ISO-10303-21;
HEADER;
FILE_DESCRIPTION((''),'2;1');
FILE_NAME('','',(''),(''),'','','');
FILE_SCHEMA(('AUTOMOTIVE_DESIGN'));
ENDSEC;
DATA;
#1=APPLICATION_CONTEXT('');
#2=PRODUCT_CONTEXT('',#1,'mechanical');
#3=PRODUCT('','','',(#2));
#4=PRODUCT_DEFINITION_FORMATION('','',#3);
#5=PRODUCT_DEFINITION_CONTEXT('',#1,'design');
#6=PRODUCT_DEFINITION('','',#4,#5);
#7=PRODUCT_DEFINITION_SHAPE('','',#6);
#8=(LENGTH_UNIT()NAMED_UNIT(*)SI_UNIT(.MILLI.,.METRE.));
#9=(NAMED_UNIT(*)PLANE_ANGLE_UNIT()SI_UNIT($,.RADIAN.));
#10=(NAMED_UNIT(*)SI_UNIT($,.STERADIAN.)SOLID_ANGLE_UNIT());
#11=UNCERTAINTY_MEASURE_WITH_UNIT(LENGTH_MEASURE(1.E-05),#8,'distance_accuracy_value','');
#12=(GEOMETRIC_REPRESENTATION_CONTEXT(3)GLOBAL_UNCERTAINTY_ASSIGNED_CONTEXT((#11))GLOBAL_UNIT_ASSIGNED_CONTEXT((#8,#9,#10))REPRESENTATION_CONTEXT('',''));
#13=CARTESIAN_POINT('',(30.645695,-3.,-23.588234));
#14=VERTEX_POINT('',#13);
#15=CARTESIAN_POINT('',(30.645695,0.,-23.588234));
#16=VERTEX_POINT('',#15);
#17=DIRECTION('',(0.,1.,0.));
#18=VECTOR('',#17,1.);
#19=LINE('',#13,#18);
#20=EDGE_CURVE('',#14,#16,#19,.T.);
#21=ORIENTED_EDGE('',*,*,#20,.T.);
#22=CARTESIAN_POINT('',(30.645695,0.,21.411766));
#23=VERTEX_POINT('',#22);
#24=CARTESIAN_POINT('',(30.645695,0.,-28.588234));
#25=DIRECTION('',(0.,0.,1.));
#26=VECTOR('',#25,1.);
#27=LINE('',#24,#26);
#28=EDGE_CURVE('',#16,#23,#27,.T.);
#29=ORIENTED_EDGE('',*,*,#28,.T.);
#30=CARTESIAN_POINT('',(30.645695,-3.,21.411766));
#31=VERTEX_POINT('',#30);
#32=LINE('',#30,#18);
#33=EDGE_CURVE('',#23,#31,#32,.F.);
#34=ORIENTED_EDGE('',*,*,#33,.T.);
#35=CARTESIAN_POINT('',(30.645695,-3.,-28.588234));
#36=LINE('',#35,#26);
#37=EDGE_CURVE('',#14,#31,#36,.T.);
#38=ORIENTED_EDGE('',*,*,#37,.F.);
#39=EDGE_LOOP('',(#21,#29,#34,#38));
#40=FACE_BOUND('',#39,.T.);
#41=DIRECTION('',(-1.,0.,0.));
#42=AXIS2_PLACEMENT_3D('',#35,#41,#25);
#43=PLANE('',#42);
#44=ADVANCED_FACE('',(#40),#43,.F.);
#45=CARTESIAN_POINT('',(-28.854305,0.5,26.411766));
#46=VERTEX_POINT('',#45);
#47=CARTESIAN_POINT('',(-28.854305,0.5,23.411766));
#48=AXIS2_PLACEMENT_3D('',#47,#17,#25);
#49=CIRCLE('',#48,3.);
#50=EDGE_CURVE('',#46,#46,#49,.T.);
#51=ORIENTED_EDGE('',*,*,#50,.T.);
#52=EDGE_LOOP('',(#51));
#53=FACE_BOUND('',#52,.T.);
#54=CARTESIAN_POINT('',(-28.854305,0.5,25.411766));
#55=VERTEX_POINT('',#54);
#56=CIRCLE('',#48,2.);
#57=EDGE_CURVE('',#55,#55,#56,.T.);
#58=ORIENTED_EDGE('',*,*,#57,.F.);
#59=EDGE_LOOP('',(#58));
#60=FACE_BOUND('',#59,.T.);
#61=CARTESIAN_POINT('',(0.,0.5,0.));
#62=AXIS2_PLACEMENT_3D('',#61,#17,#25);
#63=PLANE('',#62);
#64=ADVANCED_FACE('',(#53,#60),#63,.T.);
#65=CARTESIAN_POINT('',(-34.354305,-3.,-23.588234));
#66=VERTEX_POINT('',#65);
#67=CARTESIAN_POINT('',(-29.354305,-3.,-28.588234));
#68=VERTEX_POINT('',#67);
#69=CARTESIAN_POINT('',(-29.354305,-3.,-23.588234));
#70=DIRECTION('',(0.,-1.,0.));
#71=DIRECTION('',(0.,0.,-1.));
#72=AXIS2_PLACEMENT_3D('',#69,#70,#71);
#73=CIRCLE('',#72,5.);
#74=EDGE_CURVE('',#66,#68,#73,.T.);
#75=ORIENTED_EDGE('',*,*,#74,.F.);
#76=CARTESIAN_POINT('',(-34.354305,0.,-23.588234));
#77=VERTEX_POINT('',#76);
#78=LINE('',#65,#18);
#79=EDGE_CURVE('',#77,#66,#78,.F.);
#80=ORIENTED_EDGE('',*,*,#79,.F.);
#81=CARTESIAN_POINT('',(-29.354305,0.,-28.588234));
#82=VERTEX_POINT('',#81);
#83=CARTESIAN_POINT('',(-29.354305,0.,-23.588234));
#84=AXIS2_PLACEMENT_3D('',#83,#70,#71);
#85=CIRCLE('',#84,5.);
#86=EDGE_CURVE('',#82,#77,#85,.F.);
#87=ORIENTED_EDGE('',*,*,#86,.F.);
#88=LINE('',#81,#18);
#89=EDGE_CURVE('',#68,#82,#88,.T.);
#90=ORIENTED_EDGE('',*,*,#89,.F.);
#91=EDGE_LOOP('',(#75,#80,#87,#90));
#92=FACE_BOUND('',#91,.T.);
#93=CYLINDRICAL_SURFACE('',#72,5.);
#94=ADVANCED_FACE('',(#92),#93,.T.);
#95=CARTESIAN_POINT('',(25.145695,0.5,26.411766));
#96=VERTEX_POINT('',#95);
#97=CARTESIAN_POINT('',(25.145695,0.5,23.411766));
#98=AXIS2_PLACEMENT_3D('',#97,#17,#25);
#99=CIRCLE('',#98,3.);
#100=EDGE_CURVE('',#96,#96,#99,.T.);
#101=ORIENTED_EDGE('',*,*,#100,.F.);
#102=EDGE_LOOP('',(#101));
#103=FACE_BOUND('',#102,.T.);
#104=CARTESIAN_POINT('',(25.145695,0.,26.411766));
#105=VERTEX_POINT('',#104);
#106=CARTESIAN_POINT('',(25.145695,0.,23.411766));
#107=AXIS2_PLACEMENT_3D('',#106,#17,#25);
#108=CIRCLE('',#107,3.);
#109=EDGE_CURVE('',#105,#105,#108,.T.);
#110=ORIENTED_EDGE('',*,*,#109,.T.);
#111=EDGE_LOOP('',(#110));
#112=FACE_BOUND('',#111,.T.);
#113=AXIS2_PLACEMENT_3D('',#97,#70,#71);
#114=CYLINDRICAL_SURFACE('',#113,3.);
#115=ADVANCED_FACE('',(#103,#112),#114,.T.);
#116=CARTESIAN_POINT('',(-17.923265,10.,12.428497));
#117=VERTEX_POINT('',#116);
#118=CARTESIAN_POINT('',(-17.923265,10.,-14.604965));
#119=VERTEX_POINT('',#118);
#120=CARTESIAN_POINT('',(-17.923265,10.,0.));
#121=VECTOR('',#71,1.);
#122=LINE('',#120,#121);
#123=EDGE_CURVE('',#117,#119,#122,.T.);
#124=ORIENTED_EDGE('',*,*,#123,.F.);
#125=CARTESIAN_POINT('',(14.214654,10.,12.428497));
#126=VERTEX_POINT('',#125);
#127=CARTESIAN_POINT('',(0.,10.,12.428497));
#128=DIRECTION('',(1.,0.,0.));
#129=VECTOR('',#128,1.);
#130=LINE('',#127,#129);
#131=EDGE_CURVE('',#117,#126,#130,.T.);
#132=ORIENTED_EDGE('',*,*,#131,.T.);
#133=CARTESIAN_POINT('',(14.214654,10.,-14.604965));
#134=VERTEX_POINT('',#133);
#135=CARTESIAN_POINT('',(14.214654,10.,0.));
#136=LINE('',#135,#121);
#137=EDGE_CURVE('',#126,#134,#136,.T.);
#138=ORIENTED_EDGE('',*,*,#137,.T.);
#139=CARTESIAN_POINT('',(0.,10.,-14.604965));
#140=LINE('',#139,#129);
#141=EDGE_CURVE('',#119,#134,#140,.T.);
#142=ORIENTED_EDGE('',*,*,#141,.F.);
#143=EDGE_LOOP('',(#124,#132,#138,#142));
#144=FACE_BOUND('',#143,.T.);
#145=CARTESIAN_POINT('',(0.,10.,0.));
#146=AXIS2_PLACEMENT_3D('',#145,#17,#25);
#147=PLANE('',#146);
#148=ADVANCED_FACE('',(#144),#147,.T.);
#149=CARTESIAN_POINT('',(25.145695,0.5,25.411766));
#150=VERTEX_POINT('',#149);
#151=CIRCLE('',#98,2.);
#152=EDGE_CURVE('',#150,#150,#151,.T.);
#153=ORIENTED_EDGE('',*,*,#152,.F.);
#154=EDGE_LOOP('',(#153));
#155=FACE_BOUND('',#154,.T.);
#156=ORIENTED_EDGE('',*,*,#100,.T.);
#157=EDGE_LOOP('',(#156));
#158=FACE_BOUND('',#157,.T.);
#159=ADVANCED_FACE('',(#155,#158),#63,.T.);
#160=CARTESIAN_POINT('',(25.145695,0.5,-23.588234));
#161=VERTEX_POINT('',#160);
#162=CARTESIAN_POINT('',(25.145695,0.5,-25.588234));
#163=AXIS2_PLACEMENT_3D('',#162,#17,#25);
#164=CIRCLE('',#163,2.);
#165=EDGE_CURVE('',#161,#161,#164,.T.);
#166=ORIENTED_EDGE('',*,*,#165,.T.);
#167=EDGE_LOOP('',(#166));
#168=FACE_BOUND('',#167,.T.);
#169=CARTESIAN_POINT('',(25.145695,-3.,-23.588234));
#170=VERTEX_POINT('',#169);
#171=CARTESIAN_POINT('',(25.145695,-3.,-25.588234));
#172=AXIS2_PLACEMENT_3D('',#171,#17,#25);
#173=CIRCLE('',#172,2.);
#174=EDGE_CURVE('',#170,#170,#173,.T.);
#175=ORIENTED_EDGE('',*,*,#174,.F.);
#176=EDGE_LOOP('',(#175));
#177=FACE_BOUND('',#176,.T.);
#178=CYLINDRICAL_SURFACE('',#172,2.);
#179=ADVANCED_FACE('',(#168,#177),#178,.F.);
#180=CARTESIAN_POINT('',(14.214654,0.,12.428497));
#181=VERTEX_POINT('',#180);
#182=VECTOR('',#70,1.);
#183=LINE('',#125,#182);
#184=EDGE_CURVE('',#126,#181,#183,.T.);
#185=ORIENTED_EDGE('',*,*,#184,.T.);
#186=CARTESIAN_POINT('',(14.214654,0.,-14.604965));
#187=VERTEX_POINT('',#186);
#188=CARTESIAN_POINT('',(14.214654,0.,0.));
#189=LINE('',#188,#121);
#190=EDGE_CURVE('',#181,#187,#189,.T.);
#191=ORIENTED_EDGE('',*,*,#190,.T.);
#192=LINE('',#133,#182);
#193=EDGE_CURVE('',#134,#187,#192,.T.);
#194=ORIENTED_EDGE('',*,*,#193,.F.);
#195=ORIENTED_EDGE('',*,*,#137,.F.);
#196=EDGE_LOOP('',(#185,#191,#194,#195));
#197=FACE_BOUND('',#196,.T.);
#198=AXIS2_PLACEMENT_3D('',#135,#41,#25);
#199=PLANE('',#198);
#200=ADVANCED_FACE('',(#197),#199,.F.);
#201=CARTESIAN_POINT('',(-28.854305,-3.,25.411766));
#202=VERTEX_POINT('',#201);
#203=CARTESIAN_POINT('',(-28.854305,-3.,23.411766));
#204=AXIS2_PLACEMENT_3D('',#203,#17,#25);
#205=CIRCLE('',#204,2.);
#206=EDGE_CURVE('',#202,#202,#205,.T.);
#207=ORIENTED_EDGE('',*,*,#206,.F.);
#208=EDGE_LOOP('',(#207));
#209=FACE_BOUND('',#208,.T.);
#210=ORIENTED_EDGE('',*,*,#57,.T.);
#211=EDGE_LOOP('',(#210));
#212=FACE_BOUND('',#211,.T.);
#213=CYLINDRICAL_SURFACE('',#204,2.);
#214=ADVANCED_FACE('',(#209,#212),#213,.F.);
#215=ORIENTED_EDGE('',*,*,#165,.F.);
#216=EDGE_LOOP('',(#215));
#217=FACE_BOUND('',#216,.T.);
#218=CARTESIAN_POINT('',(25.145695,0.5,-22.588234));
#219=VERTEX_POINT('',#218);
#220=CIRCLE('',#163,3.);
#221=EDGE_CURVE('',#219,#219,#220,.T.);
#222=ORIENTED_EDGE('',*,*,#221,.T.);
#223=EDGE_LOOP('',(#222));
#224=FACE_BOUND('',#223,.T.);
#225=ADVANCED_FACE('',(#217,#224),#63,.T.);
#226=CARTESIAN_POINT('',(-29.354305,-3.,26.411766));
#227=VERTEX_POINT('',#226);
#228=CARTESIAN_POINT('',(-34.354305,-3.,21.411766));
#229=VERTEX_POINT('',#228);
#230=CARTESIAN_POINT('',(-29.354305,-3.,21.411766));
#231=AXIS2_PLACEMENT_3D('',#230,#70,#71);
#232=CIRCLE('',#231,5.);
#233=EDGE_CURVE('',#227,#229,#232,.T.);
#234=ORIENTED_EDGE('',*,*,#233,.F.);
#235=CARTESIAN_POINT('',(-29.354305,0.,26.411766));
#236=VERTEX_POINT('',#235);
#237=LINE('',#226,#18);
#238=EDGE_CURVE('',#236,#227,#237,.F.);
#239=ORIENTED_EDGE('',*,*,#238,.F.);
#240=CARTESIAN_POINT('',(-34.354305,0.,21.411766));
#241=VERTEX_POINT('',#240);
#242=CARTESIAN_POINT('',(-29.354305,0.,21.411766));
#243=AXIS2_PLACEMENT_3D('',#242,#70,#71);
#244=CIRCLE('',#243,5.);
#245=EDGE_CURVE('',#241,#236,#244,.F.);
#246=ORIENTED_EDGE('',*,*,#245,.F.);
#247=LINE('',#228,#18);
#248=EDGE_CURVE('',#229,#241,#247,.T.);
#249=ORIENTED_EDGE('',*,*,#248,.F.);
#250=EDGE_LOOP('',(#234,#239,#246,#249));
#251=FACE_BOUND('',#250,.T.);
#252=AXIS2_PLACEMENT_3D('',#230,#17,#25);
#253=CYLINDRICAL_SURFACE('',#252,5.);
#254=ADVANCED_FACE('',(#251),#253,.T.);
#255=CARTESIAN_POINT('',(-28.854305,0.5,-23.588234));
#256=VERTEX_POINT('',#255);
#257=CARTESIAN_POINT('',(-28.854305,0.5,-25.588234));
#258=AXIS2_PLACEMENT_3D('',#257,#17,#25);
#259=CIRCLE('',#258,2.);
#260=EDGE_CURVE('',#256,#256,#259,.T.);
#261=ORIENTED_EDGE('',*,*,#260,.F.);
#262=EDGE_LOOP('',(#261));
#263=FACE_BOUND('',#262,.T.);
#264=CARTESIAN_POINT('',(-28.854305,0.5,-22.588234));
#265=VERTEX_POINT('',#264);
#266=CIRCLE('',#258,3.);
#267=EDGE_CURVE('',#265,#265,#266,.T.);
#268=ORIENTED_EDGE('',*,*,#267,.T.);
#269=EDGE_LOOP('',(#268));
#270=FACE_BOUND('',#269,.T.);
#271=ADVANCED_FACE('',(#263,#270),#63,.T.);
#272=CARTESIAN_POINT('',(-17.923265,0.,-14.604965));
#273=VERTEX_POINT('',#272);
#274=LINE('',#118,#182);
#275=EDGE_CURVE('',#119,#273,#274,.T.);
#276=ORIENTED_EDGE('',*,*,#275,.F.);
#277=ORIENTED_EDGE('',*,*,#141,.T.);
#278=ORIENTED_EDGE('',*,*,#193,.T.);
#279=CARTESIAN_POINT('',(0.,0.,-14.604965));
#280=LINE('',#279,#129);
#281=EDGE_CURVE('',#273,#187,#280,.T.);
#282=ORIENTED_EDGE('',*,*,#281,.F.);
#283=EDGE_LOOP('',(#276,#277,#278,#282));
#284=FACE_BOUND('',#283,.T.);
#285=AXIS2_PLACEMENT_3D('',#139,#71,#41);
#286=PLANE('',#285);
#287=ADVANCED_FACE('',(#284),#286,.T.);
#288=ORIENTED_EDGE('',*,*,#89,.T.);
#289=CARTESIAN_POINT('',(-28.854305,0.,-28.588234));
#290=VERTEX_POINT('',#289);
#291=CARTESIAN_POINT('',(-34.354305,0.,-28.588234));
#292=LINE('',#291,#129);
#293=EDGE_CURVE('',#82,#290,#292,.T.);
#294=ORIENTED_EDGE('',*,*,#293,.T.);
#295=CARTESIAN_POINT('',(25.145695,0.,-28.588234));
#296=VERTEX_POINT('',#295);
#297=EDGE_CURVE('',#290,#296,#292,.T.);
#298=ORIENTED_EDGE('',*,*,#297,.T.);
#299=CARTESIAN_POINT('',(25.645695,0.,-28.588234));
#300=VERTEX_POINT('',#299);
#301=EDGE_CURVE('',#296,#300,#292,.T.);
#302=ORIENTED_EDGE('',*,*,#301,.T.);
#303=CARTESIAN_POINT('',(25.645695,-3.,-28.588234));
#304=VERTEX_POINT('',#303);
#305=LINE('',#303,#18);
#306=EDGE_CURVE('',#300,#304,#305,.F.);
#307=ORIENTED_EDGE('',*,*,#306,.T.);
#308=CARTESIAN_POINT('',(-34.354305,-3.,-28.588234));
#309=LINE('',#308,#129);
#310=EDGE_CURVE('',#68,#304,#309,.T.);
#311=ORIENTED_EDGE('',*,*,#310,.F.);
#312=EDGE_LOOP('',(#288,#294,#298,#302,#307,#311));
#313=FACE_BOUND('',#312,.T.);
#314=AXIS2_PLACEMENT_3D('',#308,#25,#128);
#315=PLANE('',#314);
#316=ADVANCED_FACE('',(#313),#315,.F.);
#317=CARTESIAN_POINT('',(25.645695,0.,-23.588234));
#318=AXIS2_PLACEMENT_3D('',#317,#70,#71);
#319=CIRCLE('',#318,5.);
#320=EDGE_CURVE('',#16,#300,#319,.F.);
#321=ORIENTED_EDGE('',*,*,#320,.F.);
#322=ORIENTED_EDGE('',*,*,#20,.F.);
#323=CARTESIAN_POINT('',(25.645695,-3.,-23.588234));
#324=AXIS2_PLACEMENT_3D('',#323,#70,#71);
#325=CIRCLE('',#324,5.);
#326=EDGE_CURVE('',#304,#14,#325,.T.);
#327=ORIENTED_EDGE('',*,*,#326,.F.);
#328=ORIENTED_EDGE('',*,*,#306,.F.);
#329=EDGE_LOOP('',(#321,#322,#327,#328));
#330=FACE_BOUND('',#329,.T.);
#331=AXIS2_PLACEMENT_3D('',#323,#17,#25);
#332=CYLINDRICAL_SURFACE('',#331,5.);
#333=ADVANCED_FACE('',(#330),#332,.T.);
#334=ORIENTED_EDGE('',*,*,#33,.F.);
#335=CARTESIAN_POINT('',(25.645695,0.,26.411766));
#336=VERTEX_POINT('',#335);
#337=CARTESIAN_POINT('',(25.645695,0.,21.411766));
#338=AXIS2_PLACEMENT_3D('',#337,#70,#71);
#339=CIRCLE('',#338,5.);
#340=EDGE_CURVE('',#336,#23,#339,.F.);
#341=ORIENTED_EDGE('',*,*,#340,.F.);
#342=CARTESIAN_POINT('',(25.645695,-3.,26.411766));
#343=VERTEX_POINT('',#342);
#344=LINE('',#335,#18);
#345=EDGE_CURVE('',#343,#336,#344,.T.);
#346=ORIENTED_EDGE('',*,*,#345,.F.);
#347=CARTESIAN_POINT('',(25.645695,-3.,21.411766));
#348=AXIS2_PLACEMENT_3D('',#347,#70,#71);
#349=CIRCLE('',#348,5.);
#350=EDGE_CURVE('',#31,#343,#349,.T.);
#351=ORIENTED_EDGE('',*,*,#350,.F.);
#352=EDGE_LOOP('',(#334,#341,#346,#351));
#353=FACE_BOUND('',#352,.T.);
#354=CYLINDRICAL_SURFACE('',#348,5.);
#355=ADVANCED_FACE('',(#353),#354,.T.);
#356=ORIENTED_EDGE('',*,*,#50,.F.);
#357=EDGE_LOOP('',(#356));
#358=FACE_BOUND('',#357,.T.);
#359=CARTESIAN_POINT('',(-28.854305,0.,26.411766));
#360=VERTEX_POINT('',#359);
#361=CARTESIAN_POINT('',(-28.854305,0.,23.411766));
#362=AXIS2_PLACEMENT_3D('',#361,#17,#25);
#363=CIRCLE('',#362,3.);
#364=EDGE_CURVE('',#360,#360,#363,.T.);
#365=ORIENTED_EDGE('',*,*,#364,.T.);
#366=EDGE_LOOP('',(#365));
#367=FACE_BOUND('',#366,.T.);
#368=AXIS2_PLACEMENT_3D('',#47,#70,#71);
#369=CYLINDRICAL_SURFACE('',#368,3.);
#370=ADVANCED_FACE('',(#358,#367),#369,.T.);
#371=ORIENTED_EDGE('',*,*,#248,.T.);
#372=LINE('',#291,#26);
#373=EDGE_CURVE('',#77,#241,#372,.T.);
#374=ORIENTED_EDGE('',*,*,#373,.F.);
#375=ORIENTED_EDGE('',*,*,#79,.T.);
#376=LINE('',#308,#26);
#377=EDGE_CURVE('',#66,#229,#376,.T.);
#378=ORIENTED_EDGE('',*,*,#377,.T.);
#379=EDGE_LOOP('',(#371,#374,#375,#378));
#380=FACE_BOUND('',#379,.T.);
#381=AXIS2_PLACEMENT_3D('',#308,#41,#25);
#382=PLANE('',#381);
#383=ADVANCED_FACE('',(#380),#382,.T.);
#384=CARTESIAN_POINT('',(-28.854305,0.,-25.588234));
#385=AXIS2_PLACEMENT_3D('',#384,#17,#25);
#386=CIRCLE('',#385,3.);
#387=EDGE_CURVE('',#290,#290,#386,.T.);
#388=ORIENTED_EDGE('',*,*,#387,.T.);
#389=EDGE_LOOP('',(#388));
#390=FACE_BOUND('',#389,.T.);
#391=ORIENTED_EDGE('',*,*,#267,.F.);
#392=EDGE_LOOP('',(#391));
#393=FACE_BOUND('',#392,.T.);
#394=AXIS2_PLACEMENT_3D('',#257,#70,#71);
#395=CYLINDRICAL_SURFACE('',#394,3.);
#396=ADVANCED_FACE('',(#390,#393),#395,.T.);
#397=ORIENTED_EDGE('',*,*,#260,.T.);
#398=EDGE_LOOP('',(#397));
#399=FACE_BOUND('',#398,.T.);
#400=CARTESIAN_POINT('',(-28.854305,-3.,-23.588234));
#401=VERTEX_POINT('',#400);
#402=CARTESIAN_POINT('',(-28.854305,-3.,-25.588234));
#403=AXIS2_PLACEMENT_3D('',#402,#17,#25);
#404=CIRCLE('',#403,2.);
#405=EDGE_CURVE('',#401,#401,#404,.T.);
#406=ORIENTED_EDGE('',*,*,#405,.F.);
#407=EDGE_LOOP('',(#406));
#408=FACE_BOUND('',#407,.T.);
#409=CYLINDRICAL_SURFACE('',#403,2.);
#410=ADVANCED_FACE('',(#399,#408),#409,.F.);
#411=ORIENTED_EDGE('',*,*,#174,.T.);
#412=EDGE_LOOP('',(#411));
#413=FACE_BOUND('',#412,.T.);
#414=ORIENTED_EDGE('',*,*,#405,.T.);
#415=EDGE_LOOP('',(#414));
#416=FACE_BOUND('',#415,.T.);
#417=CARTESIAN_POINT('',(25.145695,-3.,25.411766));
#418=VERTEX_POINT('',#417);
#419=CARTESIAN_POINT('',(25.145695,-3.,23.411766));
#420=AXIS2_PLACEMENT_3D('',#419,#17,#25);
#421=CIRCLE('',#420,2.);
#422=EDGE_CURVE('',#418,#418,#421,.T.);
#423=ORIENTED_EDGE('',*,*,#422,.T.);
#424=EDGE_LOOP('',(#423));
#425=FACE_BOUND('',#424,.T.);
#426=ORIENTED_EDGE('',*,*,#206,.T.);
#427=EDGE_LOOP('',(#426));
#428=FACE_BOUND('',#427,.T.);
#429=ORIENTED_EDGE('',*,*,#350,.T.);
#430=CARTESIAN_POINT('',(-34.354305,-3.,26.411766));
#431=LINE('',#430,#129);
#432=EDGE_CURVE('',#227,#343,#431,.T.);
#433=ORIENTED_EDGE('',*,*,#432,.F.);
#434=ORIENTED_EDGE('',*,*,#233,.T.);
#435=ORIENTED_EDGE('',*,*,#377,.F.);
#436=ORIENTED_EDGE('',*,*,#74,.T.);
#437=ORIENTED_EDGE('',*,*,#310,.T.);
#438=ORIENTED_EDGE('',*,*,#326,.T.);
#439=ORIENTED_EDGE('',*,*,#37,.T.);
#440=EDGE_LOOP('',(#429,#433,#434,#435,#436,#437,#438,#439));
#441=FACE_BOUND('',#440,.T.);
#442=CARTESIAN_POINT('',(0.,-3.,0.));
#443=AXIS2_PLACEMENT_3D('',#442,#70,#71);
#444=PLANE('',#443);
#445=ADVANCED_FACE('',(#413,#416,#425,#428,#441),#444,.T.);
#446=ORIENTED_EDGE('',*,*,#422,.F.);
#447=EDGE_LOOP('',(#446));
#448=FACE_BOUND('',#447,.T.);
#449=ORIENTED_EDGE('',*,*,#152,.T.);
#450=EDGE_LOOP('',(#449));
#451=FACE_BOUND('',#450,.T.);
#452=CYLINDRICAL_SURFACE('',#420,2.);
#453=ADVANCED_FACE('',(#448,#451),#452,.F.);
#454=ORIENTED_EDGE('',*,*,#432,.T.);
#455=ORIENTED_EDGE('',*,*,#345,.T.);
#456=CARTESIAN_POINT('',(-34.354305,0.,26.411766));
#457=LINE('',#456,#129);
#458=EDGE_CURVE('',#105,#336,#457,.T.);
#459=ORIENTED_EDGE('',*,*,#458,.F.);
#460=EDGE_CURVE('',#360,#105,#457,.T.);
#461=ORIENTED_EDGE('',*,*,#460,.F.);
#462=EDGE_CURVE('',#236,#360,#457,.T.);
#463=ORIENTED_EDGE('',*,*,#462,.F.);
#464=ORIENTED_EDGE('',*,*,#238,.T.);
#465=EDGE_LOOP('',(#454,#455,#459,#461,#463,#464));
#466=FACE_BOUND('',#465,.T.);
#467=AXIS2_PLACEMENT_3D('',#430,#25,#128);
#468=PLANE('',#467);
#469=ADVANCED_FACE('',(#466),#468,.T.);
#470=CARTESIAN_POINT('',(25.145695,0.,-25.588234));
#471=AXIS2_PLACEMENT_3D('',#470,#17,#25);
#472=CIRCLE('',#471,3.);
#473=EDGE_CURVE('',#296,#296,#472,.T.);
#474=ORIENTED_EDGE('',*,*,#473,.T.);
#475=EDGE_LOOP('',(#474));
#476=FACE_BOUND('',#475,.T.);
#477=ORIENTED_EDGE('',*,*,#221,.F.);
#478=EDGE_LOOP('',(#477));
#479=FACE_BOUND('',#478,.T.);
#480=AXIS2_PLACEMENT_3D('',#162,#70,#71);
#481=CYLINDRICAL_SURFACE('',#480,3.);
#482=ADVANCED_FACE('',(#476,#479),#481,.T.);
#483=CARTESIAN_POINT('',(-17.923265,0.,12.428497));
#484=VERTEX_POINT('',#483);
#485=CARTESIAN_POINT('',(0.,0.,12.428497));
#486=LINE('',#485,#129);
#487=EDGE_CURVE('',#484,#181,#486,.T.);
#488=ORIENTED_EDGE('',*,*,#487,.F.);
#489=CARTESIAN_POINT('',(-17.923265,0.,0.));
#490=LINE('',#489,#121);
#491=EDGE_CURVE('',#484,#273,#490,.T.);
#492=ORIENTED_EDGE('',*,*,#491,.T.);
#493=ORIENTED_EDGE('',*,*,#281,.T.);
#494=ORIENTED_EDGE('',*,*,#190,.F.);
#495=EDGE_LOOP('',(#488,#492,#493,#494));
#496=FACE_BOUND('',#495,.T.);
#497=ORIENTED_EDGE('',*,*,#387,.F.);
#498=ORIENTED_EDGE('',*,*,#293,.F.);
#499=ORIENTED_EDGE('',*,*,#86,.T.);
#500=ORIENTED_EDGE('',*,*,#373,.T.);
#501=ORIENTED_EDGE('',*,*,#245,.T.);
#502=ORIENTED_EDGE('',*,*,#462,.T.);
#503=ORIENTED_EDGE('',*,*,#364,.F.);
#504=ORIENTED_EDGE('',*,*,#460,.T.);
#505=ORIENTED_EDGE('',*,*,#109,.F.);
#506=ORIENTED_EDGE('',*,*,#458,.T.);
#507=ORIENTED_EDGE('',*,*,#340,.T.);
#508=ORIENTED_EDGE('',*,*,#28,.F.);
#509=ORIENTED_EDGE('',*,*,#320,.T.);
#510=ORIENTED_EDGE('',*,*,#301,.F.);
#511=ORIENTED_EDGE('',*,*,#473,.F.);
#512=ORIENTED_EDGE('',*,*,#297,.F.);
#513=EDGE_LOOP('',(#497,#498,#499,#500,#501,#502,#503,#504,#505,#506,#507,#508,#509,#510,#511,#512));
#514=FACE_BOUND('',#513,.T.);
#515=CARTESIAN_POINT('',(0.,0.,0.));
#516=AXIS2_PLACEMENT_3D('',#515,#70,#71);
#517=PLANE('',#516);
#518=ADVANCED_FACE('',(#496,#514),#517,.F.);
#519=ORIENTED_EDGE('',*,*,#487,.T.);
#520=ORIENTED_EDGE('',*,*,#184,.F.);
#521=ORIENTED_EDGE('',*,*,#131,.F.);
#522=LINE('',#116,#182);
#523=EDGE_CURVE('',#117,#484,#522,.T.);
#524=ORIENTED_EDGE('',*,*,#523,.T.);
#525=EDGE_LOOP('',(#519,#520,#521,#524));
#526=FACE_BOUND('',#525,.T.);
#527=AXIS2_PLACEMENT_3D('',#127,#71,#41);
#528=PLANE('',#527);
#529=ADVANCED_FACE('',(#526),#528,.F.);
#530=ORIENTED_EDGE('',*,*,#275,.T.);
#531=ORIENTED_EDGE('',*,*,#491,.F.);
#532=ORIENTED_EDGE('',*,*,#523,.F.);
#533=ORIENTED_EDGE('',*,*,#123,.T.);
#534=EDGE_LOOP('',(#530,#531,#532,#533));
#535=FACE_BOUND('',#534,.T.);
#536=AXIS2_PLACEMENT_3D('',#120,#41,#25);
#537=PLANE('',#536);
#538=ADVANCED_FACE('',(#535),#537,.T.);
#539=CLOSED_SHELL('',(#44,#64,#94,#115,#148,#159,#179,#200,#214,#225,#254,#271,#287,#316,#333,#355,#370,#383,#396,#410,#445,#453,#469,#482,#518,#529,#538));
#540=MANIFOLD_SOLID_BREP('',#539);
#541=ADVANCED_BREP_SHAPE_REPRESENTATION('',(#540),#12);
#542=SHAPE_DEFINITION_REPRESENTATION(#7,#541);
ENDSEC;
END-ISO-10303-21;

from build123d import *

# Parameters (mm, degrees)
SKETCH_2_W          = 32.137918781
SKETCH_2_H          = 27.033462042
EXTRUDE_1_DEPTH     = 10
SKETCH_2_3_W        = 65
SKETCH_2_3_H        = 55
EXTRUDE_2_DEPTH     = 3
SKETCH_2_5_R        = 2
CUT_EXTRUDE_1_DEPTH = 3
SKETCH_2_6_R        = 2
CUT_EXTRUDE_2_DEPTH = 3
SKETCH_2_7_R        = 2
CUT_EXTRUDE_3_DEPTH = 3
SKETCH_2_8_R        = 2
CUT_EXTRUDE_4_DEPTH = 3
EXTRUDE_START       = 0.5
SKETCH_2_12_R       = 3
SKETCH_2_12_R_2     = 2
EXTRUDE_3_DEPTH     = 0.5
SKETCH_2_15_R       = 3
SKETCH_2_15_R_2     = 2
EXTRUDE_5_DEPTH     = 0.5
SKETCH_2_16_R       = 3
SKETCH_2_16_R_2     = 2
EXTRUDE_6_DEPTH     = 0.5
SKETCH_2_17_R       = 3
SKETCH_2_17_R_2     = 2
EXTRUDE_7_DEPTH     = 0.5
FILLET_3_R          = 5
FILLET_4_R          = 5
FILLET_5_R          = 5
FILLET_6_R          = 5


with BuildPart() as part:
    # 草图2 → 凸台-拉伸1 (new body)
    with BuildSketch(Plane(origin=(0, 0, 0), x_dir=(1, 0, 0), z_dir=(0, 1, 0))):
        with Locations((-1.854305447, 1.088234358)):
            Rectangle(SKETCH_2_W, SKETCH_2_H)
    extrude(amount=EXTRUDE_1_DEPTH)

    # 草图2<3> → 凸台-拉伸2 (add)
    with BuildSketch(Plane(origin=(0, 0, 0), x_dir=(1, 0, 0), z_dir=(0, 1, 0))):
        with Locations((-1.854305446, 1.088234358)):
            Rectangle(SKETCH_2_3_W, SKETCH_2_3_H)
    extrude(amount=-EXTRUDE_2_DEPTH)

    # 草图2<5> → 切除-拉伸1 (cut)
    with BuildSketch(Plane(origin=(0, 0, 0), x_dir=(1, 0, 0), z_dir=(0, 1, 0))):
        with Locations((25.145694554, -23.411765642)):
            Circle(SKETCH_2_5_R)
    extrude(amount=-CUT_EXTRUDE_1_DEPTH, mode=Mode.SUBTRACT)

    # 草图2<6> → 切除-拉伸2 (cut)
    with BuildSketch(Plane(origin=(0, 0, 0), x_dir=(1, 0, 0), z_dir=(0, 1, 0))):
        with Locations((-28.854305446, -23.411765642)):
            Circle(SKETCH_2_6_R)
    extrude(amount=-CUT_EXTRUDE_2_DEPTH, mode=Mode.SUBTRACT)

    # 草图2<7> → 切除-拉伸3 (cut)
    with BuildSketch(Plane(origin=(0, 0, 0), x_dir=(1, 0, 0), z_dir=(0, 1, 0))):
        with Locations((25.145694554, 25.588234358)):
            Circle(SKETCH_2_7_R)
    extrude(amount=-CUT_EXTRUDE_3_DEPTH, mode=Mode.SUBTRACT)

    # 草图2<8> → 切除-拉伸4 (cut)
    with BuildSketch(Plane(origin=(0, 0, 0), x_dir=(1, 0, 0), z_dir=(0, 1, 0))):
        with Locations((-28.854305446, 25.588234358)):
            Circle(SKETCH_2_8_R)
    extrude(amount=-CUT_EXTRUDE_4_DEPTH, mode=Mode.SUBTRACT)

    # 草图2<12> → 凸台-拉伸3 (add)
    with BuildSketch(Plane(origin=(0, 0, 0), x_dir=(1, 0, 0), z_dir=(0, 1, 0)).offset(EXTRUDE_START)):
        with Locations((25.145694554, 25.588234358)):
            Circle(SKETCH_2_12_R)
        with Locations((25.145694554, 25.588234358)):
            Circle(SKETCH_2_12_R_2, mode=Mode.SUBTRACT)
    extrude(amount=-EXTRUDE_3_DEPTH)

    # 草图2<15> → 凸台-拉伸5 (add)
    with BuildSketch(Plane(origin=(0, 0, 0), x_dir=(1, 0, 0), z_dir=(0, 1, 0)).offset(EXTRUDE_START)):
        with Locations((25.145694554, -23.411765642)):
            Circle(SKETCH_2_15_R)
        with Locations((25.145694554, -23.411765642)):
            Circle(SKETCH_2_15_R_2, mode=Mode.SUBTRACT)
    extrude(amount=-EXTRUDE_5_DEPTH)

    # 草图2<16> → 凸台-拉伸6 (add)
    with BuildSketch(Plane(origin=(0, 0, 0), x_dir=(1, 0, 0), z_dir=(0, 1, 0)).offset(EXTRUDE_START)):
        with Locations((-28.854305446, -23.411765642)):
            Circle(SKETCH_2_16_R)
        with Locations((-28.854305446, -23.411765642)):
            Circle(SKETCH_2_16_R_2, mode=Mode.SUBTRACT)
    extrude(amount=-EXTRUDE_6_DEPTH)

    # 草图2<17> → 凸台-拉伸7 (add)
    with BuildSketch(Plane(origin=(0, 0, 0), x_dir=(1, 0, 0), z_dir=(0, 1, 0)).offset(EXTRUDE_START)):
        with Locations((-28.854305446, 25.588234358)):
            Circle(SKETCH_2_17_R)
        with Locations((-28.854305446, 25.588234358)):
            Circle(SKETCH_2_17_R_2, mode=Mode.SUBTRACT)
    extrude(amount=-EXTRUDE_7_DEPTH)

    # 圆角3
    fillet_3_edges = [part.edges().sort_by_distance(p)[0] for p in [
        (30.645694554, -1.5, -28.588234358),
    ]]
    fillet(fillet_3_edges, radius=FILLET_3_R)

    # 圆角4
    fillet_4_edges = [part.edges().sort_by_distance(p)[0] for p in [
        (30.645694554, -1.5, 26.411765642),
    ]]
    fillet(fillet_4_edges, radius=FILLET_4_R)

    # 圆角5
    fillet_5_edges = [part.edges().sort_by_distance(p)[0] for p in [
        (-34.354305446, -1.5, 26.411765642),
    ]]
    fillet(fillet_5_edges, radius=FILLET_5_R)

    # 圆角6
    fillet_6_edges = [part.edges().sort_by_distance(p)[0] for p in [
        (-34.354305446, -1.5, -28.588234358),
    ]]
    fillet(fillet_6_edges, radius=FILLET_6_R)


solid = part.part
